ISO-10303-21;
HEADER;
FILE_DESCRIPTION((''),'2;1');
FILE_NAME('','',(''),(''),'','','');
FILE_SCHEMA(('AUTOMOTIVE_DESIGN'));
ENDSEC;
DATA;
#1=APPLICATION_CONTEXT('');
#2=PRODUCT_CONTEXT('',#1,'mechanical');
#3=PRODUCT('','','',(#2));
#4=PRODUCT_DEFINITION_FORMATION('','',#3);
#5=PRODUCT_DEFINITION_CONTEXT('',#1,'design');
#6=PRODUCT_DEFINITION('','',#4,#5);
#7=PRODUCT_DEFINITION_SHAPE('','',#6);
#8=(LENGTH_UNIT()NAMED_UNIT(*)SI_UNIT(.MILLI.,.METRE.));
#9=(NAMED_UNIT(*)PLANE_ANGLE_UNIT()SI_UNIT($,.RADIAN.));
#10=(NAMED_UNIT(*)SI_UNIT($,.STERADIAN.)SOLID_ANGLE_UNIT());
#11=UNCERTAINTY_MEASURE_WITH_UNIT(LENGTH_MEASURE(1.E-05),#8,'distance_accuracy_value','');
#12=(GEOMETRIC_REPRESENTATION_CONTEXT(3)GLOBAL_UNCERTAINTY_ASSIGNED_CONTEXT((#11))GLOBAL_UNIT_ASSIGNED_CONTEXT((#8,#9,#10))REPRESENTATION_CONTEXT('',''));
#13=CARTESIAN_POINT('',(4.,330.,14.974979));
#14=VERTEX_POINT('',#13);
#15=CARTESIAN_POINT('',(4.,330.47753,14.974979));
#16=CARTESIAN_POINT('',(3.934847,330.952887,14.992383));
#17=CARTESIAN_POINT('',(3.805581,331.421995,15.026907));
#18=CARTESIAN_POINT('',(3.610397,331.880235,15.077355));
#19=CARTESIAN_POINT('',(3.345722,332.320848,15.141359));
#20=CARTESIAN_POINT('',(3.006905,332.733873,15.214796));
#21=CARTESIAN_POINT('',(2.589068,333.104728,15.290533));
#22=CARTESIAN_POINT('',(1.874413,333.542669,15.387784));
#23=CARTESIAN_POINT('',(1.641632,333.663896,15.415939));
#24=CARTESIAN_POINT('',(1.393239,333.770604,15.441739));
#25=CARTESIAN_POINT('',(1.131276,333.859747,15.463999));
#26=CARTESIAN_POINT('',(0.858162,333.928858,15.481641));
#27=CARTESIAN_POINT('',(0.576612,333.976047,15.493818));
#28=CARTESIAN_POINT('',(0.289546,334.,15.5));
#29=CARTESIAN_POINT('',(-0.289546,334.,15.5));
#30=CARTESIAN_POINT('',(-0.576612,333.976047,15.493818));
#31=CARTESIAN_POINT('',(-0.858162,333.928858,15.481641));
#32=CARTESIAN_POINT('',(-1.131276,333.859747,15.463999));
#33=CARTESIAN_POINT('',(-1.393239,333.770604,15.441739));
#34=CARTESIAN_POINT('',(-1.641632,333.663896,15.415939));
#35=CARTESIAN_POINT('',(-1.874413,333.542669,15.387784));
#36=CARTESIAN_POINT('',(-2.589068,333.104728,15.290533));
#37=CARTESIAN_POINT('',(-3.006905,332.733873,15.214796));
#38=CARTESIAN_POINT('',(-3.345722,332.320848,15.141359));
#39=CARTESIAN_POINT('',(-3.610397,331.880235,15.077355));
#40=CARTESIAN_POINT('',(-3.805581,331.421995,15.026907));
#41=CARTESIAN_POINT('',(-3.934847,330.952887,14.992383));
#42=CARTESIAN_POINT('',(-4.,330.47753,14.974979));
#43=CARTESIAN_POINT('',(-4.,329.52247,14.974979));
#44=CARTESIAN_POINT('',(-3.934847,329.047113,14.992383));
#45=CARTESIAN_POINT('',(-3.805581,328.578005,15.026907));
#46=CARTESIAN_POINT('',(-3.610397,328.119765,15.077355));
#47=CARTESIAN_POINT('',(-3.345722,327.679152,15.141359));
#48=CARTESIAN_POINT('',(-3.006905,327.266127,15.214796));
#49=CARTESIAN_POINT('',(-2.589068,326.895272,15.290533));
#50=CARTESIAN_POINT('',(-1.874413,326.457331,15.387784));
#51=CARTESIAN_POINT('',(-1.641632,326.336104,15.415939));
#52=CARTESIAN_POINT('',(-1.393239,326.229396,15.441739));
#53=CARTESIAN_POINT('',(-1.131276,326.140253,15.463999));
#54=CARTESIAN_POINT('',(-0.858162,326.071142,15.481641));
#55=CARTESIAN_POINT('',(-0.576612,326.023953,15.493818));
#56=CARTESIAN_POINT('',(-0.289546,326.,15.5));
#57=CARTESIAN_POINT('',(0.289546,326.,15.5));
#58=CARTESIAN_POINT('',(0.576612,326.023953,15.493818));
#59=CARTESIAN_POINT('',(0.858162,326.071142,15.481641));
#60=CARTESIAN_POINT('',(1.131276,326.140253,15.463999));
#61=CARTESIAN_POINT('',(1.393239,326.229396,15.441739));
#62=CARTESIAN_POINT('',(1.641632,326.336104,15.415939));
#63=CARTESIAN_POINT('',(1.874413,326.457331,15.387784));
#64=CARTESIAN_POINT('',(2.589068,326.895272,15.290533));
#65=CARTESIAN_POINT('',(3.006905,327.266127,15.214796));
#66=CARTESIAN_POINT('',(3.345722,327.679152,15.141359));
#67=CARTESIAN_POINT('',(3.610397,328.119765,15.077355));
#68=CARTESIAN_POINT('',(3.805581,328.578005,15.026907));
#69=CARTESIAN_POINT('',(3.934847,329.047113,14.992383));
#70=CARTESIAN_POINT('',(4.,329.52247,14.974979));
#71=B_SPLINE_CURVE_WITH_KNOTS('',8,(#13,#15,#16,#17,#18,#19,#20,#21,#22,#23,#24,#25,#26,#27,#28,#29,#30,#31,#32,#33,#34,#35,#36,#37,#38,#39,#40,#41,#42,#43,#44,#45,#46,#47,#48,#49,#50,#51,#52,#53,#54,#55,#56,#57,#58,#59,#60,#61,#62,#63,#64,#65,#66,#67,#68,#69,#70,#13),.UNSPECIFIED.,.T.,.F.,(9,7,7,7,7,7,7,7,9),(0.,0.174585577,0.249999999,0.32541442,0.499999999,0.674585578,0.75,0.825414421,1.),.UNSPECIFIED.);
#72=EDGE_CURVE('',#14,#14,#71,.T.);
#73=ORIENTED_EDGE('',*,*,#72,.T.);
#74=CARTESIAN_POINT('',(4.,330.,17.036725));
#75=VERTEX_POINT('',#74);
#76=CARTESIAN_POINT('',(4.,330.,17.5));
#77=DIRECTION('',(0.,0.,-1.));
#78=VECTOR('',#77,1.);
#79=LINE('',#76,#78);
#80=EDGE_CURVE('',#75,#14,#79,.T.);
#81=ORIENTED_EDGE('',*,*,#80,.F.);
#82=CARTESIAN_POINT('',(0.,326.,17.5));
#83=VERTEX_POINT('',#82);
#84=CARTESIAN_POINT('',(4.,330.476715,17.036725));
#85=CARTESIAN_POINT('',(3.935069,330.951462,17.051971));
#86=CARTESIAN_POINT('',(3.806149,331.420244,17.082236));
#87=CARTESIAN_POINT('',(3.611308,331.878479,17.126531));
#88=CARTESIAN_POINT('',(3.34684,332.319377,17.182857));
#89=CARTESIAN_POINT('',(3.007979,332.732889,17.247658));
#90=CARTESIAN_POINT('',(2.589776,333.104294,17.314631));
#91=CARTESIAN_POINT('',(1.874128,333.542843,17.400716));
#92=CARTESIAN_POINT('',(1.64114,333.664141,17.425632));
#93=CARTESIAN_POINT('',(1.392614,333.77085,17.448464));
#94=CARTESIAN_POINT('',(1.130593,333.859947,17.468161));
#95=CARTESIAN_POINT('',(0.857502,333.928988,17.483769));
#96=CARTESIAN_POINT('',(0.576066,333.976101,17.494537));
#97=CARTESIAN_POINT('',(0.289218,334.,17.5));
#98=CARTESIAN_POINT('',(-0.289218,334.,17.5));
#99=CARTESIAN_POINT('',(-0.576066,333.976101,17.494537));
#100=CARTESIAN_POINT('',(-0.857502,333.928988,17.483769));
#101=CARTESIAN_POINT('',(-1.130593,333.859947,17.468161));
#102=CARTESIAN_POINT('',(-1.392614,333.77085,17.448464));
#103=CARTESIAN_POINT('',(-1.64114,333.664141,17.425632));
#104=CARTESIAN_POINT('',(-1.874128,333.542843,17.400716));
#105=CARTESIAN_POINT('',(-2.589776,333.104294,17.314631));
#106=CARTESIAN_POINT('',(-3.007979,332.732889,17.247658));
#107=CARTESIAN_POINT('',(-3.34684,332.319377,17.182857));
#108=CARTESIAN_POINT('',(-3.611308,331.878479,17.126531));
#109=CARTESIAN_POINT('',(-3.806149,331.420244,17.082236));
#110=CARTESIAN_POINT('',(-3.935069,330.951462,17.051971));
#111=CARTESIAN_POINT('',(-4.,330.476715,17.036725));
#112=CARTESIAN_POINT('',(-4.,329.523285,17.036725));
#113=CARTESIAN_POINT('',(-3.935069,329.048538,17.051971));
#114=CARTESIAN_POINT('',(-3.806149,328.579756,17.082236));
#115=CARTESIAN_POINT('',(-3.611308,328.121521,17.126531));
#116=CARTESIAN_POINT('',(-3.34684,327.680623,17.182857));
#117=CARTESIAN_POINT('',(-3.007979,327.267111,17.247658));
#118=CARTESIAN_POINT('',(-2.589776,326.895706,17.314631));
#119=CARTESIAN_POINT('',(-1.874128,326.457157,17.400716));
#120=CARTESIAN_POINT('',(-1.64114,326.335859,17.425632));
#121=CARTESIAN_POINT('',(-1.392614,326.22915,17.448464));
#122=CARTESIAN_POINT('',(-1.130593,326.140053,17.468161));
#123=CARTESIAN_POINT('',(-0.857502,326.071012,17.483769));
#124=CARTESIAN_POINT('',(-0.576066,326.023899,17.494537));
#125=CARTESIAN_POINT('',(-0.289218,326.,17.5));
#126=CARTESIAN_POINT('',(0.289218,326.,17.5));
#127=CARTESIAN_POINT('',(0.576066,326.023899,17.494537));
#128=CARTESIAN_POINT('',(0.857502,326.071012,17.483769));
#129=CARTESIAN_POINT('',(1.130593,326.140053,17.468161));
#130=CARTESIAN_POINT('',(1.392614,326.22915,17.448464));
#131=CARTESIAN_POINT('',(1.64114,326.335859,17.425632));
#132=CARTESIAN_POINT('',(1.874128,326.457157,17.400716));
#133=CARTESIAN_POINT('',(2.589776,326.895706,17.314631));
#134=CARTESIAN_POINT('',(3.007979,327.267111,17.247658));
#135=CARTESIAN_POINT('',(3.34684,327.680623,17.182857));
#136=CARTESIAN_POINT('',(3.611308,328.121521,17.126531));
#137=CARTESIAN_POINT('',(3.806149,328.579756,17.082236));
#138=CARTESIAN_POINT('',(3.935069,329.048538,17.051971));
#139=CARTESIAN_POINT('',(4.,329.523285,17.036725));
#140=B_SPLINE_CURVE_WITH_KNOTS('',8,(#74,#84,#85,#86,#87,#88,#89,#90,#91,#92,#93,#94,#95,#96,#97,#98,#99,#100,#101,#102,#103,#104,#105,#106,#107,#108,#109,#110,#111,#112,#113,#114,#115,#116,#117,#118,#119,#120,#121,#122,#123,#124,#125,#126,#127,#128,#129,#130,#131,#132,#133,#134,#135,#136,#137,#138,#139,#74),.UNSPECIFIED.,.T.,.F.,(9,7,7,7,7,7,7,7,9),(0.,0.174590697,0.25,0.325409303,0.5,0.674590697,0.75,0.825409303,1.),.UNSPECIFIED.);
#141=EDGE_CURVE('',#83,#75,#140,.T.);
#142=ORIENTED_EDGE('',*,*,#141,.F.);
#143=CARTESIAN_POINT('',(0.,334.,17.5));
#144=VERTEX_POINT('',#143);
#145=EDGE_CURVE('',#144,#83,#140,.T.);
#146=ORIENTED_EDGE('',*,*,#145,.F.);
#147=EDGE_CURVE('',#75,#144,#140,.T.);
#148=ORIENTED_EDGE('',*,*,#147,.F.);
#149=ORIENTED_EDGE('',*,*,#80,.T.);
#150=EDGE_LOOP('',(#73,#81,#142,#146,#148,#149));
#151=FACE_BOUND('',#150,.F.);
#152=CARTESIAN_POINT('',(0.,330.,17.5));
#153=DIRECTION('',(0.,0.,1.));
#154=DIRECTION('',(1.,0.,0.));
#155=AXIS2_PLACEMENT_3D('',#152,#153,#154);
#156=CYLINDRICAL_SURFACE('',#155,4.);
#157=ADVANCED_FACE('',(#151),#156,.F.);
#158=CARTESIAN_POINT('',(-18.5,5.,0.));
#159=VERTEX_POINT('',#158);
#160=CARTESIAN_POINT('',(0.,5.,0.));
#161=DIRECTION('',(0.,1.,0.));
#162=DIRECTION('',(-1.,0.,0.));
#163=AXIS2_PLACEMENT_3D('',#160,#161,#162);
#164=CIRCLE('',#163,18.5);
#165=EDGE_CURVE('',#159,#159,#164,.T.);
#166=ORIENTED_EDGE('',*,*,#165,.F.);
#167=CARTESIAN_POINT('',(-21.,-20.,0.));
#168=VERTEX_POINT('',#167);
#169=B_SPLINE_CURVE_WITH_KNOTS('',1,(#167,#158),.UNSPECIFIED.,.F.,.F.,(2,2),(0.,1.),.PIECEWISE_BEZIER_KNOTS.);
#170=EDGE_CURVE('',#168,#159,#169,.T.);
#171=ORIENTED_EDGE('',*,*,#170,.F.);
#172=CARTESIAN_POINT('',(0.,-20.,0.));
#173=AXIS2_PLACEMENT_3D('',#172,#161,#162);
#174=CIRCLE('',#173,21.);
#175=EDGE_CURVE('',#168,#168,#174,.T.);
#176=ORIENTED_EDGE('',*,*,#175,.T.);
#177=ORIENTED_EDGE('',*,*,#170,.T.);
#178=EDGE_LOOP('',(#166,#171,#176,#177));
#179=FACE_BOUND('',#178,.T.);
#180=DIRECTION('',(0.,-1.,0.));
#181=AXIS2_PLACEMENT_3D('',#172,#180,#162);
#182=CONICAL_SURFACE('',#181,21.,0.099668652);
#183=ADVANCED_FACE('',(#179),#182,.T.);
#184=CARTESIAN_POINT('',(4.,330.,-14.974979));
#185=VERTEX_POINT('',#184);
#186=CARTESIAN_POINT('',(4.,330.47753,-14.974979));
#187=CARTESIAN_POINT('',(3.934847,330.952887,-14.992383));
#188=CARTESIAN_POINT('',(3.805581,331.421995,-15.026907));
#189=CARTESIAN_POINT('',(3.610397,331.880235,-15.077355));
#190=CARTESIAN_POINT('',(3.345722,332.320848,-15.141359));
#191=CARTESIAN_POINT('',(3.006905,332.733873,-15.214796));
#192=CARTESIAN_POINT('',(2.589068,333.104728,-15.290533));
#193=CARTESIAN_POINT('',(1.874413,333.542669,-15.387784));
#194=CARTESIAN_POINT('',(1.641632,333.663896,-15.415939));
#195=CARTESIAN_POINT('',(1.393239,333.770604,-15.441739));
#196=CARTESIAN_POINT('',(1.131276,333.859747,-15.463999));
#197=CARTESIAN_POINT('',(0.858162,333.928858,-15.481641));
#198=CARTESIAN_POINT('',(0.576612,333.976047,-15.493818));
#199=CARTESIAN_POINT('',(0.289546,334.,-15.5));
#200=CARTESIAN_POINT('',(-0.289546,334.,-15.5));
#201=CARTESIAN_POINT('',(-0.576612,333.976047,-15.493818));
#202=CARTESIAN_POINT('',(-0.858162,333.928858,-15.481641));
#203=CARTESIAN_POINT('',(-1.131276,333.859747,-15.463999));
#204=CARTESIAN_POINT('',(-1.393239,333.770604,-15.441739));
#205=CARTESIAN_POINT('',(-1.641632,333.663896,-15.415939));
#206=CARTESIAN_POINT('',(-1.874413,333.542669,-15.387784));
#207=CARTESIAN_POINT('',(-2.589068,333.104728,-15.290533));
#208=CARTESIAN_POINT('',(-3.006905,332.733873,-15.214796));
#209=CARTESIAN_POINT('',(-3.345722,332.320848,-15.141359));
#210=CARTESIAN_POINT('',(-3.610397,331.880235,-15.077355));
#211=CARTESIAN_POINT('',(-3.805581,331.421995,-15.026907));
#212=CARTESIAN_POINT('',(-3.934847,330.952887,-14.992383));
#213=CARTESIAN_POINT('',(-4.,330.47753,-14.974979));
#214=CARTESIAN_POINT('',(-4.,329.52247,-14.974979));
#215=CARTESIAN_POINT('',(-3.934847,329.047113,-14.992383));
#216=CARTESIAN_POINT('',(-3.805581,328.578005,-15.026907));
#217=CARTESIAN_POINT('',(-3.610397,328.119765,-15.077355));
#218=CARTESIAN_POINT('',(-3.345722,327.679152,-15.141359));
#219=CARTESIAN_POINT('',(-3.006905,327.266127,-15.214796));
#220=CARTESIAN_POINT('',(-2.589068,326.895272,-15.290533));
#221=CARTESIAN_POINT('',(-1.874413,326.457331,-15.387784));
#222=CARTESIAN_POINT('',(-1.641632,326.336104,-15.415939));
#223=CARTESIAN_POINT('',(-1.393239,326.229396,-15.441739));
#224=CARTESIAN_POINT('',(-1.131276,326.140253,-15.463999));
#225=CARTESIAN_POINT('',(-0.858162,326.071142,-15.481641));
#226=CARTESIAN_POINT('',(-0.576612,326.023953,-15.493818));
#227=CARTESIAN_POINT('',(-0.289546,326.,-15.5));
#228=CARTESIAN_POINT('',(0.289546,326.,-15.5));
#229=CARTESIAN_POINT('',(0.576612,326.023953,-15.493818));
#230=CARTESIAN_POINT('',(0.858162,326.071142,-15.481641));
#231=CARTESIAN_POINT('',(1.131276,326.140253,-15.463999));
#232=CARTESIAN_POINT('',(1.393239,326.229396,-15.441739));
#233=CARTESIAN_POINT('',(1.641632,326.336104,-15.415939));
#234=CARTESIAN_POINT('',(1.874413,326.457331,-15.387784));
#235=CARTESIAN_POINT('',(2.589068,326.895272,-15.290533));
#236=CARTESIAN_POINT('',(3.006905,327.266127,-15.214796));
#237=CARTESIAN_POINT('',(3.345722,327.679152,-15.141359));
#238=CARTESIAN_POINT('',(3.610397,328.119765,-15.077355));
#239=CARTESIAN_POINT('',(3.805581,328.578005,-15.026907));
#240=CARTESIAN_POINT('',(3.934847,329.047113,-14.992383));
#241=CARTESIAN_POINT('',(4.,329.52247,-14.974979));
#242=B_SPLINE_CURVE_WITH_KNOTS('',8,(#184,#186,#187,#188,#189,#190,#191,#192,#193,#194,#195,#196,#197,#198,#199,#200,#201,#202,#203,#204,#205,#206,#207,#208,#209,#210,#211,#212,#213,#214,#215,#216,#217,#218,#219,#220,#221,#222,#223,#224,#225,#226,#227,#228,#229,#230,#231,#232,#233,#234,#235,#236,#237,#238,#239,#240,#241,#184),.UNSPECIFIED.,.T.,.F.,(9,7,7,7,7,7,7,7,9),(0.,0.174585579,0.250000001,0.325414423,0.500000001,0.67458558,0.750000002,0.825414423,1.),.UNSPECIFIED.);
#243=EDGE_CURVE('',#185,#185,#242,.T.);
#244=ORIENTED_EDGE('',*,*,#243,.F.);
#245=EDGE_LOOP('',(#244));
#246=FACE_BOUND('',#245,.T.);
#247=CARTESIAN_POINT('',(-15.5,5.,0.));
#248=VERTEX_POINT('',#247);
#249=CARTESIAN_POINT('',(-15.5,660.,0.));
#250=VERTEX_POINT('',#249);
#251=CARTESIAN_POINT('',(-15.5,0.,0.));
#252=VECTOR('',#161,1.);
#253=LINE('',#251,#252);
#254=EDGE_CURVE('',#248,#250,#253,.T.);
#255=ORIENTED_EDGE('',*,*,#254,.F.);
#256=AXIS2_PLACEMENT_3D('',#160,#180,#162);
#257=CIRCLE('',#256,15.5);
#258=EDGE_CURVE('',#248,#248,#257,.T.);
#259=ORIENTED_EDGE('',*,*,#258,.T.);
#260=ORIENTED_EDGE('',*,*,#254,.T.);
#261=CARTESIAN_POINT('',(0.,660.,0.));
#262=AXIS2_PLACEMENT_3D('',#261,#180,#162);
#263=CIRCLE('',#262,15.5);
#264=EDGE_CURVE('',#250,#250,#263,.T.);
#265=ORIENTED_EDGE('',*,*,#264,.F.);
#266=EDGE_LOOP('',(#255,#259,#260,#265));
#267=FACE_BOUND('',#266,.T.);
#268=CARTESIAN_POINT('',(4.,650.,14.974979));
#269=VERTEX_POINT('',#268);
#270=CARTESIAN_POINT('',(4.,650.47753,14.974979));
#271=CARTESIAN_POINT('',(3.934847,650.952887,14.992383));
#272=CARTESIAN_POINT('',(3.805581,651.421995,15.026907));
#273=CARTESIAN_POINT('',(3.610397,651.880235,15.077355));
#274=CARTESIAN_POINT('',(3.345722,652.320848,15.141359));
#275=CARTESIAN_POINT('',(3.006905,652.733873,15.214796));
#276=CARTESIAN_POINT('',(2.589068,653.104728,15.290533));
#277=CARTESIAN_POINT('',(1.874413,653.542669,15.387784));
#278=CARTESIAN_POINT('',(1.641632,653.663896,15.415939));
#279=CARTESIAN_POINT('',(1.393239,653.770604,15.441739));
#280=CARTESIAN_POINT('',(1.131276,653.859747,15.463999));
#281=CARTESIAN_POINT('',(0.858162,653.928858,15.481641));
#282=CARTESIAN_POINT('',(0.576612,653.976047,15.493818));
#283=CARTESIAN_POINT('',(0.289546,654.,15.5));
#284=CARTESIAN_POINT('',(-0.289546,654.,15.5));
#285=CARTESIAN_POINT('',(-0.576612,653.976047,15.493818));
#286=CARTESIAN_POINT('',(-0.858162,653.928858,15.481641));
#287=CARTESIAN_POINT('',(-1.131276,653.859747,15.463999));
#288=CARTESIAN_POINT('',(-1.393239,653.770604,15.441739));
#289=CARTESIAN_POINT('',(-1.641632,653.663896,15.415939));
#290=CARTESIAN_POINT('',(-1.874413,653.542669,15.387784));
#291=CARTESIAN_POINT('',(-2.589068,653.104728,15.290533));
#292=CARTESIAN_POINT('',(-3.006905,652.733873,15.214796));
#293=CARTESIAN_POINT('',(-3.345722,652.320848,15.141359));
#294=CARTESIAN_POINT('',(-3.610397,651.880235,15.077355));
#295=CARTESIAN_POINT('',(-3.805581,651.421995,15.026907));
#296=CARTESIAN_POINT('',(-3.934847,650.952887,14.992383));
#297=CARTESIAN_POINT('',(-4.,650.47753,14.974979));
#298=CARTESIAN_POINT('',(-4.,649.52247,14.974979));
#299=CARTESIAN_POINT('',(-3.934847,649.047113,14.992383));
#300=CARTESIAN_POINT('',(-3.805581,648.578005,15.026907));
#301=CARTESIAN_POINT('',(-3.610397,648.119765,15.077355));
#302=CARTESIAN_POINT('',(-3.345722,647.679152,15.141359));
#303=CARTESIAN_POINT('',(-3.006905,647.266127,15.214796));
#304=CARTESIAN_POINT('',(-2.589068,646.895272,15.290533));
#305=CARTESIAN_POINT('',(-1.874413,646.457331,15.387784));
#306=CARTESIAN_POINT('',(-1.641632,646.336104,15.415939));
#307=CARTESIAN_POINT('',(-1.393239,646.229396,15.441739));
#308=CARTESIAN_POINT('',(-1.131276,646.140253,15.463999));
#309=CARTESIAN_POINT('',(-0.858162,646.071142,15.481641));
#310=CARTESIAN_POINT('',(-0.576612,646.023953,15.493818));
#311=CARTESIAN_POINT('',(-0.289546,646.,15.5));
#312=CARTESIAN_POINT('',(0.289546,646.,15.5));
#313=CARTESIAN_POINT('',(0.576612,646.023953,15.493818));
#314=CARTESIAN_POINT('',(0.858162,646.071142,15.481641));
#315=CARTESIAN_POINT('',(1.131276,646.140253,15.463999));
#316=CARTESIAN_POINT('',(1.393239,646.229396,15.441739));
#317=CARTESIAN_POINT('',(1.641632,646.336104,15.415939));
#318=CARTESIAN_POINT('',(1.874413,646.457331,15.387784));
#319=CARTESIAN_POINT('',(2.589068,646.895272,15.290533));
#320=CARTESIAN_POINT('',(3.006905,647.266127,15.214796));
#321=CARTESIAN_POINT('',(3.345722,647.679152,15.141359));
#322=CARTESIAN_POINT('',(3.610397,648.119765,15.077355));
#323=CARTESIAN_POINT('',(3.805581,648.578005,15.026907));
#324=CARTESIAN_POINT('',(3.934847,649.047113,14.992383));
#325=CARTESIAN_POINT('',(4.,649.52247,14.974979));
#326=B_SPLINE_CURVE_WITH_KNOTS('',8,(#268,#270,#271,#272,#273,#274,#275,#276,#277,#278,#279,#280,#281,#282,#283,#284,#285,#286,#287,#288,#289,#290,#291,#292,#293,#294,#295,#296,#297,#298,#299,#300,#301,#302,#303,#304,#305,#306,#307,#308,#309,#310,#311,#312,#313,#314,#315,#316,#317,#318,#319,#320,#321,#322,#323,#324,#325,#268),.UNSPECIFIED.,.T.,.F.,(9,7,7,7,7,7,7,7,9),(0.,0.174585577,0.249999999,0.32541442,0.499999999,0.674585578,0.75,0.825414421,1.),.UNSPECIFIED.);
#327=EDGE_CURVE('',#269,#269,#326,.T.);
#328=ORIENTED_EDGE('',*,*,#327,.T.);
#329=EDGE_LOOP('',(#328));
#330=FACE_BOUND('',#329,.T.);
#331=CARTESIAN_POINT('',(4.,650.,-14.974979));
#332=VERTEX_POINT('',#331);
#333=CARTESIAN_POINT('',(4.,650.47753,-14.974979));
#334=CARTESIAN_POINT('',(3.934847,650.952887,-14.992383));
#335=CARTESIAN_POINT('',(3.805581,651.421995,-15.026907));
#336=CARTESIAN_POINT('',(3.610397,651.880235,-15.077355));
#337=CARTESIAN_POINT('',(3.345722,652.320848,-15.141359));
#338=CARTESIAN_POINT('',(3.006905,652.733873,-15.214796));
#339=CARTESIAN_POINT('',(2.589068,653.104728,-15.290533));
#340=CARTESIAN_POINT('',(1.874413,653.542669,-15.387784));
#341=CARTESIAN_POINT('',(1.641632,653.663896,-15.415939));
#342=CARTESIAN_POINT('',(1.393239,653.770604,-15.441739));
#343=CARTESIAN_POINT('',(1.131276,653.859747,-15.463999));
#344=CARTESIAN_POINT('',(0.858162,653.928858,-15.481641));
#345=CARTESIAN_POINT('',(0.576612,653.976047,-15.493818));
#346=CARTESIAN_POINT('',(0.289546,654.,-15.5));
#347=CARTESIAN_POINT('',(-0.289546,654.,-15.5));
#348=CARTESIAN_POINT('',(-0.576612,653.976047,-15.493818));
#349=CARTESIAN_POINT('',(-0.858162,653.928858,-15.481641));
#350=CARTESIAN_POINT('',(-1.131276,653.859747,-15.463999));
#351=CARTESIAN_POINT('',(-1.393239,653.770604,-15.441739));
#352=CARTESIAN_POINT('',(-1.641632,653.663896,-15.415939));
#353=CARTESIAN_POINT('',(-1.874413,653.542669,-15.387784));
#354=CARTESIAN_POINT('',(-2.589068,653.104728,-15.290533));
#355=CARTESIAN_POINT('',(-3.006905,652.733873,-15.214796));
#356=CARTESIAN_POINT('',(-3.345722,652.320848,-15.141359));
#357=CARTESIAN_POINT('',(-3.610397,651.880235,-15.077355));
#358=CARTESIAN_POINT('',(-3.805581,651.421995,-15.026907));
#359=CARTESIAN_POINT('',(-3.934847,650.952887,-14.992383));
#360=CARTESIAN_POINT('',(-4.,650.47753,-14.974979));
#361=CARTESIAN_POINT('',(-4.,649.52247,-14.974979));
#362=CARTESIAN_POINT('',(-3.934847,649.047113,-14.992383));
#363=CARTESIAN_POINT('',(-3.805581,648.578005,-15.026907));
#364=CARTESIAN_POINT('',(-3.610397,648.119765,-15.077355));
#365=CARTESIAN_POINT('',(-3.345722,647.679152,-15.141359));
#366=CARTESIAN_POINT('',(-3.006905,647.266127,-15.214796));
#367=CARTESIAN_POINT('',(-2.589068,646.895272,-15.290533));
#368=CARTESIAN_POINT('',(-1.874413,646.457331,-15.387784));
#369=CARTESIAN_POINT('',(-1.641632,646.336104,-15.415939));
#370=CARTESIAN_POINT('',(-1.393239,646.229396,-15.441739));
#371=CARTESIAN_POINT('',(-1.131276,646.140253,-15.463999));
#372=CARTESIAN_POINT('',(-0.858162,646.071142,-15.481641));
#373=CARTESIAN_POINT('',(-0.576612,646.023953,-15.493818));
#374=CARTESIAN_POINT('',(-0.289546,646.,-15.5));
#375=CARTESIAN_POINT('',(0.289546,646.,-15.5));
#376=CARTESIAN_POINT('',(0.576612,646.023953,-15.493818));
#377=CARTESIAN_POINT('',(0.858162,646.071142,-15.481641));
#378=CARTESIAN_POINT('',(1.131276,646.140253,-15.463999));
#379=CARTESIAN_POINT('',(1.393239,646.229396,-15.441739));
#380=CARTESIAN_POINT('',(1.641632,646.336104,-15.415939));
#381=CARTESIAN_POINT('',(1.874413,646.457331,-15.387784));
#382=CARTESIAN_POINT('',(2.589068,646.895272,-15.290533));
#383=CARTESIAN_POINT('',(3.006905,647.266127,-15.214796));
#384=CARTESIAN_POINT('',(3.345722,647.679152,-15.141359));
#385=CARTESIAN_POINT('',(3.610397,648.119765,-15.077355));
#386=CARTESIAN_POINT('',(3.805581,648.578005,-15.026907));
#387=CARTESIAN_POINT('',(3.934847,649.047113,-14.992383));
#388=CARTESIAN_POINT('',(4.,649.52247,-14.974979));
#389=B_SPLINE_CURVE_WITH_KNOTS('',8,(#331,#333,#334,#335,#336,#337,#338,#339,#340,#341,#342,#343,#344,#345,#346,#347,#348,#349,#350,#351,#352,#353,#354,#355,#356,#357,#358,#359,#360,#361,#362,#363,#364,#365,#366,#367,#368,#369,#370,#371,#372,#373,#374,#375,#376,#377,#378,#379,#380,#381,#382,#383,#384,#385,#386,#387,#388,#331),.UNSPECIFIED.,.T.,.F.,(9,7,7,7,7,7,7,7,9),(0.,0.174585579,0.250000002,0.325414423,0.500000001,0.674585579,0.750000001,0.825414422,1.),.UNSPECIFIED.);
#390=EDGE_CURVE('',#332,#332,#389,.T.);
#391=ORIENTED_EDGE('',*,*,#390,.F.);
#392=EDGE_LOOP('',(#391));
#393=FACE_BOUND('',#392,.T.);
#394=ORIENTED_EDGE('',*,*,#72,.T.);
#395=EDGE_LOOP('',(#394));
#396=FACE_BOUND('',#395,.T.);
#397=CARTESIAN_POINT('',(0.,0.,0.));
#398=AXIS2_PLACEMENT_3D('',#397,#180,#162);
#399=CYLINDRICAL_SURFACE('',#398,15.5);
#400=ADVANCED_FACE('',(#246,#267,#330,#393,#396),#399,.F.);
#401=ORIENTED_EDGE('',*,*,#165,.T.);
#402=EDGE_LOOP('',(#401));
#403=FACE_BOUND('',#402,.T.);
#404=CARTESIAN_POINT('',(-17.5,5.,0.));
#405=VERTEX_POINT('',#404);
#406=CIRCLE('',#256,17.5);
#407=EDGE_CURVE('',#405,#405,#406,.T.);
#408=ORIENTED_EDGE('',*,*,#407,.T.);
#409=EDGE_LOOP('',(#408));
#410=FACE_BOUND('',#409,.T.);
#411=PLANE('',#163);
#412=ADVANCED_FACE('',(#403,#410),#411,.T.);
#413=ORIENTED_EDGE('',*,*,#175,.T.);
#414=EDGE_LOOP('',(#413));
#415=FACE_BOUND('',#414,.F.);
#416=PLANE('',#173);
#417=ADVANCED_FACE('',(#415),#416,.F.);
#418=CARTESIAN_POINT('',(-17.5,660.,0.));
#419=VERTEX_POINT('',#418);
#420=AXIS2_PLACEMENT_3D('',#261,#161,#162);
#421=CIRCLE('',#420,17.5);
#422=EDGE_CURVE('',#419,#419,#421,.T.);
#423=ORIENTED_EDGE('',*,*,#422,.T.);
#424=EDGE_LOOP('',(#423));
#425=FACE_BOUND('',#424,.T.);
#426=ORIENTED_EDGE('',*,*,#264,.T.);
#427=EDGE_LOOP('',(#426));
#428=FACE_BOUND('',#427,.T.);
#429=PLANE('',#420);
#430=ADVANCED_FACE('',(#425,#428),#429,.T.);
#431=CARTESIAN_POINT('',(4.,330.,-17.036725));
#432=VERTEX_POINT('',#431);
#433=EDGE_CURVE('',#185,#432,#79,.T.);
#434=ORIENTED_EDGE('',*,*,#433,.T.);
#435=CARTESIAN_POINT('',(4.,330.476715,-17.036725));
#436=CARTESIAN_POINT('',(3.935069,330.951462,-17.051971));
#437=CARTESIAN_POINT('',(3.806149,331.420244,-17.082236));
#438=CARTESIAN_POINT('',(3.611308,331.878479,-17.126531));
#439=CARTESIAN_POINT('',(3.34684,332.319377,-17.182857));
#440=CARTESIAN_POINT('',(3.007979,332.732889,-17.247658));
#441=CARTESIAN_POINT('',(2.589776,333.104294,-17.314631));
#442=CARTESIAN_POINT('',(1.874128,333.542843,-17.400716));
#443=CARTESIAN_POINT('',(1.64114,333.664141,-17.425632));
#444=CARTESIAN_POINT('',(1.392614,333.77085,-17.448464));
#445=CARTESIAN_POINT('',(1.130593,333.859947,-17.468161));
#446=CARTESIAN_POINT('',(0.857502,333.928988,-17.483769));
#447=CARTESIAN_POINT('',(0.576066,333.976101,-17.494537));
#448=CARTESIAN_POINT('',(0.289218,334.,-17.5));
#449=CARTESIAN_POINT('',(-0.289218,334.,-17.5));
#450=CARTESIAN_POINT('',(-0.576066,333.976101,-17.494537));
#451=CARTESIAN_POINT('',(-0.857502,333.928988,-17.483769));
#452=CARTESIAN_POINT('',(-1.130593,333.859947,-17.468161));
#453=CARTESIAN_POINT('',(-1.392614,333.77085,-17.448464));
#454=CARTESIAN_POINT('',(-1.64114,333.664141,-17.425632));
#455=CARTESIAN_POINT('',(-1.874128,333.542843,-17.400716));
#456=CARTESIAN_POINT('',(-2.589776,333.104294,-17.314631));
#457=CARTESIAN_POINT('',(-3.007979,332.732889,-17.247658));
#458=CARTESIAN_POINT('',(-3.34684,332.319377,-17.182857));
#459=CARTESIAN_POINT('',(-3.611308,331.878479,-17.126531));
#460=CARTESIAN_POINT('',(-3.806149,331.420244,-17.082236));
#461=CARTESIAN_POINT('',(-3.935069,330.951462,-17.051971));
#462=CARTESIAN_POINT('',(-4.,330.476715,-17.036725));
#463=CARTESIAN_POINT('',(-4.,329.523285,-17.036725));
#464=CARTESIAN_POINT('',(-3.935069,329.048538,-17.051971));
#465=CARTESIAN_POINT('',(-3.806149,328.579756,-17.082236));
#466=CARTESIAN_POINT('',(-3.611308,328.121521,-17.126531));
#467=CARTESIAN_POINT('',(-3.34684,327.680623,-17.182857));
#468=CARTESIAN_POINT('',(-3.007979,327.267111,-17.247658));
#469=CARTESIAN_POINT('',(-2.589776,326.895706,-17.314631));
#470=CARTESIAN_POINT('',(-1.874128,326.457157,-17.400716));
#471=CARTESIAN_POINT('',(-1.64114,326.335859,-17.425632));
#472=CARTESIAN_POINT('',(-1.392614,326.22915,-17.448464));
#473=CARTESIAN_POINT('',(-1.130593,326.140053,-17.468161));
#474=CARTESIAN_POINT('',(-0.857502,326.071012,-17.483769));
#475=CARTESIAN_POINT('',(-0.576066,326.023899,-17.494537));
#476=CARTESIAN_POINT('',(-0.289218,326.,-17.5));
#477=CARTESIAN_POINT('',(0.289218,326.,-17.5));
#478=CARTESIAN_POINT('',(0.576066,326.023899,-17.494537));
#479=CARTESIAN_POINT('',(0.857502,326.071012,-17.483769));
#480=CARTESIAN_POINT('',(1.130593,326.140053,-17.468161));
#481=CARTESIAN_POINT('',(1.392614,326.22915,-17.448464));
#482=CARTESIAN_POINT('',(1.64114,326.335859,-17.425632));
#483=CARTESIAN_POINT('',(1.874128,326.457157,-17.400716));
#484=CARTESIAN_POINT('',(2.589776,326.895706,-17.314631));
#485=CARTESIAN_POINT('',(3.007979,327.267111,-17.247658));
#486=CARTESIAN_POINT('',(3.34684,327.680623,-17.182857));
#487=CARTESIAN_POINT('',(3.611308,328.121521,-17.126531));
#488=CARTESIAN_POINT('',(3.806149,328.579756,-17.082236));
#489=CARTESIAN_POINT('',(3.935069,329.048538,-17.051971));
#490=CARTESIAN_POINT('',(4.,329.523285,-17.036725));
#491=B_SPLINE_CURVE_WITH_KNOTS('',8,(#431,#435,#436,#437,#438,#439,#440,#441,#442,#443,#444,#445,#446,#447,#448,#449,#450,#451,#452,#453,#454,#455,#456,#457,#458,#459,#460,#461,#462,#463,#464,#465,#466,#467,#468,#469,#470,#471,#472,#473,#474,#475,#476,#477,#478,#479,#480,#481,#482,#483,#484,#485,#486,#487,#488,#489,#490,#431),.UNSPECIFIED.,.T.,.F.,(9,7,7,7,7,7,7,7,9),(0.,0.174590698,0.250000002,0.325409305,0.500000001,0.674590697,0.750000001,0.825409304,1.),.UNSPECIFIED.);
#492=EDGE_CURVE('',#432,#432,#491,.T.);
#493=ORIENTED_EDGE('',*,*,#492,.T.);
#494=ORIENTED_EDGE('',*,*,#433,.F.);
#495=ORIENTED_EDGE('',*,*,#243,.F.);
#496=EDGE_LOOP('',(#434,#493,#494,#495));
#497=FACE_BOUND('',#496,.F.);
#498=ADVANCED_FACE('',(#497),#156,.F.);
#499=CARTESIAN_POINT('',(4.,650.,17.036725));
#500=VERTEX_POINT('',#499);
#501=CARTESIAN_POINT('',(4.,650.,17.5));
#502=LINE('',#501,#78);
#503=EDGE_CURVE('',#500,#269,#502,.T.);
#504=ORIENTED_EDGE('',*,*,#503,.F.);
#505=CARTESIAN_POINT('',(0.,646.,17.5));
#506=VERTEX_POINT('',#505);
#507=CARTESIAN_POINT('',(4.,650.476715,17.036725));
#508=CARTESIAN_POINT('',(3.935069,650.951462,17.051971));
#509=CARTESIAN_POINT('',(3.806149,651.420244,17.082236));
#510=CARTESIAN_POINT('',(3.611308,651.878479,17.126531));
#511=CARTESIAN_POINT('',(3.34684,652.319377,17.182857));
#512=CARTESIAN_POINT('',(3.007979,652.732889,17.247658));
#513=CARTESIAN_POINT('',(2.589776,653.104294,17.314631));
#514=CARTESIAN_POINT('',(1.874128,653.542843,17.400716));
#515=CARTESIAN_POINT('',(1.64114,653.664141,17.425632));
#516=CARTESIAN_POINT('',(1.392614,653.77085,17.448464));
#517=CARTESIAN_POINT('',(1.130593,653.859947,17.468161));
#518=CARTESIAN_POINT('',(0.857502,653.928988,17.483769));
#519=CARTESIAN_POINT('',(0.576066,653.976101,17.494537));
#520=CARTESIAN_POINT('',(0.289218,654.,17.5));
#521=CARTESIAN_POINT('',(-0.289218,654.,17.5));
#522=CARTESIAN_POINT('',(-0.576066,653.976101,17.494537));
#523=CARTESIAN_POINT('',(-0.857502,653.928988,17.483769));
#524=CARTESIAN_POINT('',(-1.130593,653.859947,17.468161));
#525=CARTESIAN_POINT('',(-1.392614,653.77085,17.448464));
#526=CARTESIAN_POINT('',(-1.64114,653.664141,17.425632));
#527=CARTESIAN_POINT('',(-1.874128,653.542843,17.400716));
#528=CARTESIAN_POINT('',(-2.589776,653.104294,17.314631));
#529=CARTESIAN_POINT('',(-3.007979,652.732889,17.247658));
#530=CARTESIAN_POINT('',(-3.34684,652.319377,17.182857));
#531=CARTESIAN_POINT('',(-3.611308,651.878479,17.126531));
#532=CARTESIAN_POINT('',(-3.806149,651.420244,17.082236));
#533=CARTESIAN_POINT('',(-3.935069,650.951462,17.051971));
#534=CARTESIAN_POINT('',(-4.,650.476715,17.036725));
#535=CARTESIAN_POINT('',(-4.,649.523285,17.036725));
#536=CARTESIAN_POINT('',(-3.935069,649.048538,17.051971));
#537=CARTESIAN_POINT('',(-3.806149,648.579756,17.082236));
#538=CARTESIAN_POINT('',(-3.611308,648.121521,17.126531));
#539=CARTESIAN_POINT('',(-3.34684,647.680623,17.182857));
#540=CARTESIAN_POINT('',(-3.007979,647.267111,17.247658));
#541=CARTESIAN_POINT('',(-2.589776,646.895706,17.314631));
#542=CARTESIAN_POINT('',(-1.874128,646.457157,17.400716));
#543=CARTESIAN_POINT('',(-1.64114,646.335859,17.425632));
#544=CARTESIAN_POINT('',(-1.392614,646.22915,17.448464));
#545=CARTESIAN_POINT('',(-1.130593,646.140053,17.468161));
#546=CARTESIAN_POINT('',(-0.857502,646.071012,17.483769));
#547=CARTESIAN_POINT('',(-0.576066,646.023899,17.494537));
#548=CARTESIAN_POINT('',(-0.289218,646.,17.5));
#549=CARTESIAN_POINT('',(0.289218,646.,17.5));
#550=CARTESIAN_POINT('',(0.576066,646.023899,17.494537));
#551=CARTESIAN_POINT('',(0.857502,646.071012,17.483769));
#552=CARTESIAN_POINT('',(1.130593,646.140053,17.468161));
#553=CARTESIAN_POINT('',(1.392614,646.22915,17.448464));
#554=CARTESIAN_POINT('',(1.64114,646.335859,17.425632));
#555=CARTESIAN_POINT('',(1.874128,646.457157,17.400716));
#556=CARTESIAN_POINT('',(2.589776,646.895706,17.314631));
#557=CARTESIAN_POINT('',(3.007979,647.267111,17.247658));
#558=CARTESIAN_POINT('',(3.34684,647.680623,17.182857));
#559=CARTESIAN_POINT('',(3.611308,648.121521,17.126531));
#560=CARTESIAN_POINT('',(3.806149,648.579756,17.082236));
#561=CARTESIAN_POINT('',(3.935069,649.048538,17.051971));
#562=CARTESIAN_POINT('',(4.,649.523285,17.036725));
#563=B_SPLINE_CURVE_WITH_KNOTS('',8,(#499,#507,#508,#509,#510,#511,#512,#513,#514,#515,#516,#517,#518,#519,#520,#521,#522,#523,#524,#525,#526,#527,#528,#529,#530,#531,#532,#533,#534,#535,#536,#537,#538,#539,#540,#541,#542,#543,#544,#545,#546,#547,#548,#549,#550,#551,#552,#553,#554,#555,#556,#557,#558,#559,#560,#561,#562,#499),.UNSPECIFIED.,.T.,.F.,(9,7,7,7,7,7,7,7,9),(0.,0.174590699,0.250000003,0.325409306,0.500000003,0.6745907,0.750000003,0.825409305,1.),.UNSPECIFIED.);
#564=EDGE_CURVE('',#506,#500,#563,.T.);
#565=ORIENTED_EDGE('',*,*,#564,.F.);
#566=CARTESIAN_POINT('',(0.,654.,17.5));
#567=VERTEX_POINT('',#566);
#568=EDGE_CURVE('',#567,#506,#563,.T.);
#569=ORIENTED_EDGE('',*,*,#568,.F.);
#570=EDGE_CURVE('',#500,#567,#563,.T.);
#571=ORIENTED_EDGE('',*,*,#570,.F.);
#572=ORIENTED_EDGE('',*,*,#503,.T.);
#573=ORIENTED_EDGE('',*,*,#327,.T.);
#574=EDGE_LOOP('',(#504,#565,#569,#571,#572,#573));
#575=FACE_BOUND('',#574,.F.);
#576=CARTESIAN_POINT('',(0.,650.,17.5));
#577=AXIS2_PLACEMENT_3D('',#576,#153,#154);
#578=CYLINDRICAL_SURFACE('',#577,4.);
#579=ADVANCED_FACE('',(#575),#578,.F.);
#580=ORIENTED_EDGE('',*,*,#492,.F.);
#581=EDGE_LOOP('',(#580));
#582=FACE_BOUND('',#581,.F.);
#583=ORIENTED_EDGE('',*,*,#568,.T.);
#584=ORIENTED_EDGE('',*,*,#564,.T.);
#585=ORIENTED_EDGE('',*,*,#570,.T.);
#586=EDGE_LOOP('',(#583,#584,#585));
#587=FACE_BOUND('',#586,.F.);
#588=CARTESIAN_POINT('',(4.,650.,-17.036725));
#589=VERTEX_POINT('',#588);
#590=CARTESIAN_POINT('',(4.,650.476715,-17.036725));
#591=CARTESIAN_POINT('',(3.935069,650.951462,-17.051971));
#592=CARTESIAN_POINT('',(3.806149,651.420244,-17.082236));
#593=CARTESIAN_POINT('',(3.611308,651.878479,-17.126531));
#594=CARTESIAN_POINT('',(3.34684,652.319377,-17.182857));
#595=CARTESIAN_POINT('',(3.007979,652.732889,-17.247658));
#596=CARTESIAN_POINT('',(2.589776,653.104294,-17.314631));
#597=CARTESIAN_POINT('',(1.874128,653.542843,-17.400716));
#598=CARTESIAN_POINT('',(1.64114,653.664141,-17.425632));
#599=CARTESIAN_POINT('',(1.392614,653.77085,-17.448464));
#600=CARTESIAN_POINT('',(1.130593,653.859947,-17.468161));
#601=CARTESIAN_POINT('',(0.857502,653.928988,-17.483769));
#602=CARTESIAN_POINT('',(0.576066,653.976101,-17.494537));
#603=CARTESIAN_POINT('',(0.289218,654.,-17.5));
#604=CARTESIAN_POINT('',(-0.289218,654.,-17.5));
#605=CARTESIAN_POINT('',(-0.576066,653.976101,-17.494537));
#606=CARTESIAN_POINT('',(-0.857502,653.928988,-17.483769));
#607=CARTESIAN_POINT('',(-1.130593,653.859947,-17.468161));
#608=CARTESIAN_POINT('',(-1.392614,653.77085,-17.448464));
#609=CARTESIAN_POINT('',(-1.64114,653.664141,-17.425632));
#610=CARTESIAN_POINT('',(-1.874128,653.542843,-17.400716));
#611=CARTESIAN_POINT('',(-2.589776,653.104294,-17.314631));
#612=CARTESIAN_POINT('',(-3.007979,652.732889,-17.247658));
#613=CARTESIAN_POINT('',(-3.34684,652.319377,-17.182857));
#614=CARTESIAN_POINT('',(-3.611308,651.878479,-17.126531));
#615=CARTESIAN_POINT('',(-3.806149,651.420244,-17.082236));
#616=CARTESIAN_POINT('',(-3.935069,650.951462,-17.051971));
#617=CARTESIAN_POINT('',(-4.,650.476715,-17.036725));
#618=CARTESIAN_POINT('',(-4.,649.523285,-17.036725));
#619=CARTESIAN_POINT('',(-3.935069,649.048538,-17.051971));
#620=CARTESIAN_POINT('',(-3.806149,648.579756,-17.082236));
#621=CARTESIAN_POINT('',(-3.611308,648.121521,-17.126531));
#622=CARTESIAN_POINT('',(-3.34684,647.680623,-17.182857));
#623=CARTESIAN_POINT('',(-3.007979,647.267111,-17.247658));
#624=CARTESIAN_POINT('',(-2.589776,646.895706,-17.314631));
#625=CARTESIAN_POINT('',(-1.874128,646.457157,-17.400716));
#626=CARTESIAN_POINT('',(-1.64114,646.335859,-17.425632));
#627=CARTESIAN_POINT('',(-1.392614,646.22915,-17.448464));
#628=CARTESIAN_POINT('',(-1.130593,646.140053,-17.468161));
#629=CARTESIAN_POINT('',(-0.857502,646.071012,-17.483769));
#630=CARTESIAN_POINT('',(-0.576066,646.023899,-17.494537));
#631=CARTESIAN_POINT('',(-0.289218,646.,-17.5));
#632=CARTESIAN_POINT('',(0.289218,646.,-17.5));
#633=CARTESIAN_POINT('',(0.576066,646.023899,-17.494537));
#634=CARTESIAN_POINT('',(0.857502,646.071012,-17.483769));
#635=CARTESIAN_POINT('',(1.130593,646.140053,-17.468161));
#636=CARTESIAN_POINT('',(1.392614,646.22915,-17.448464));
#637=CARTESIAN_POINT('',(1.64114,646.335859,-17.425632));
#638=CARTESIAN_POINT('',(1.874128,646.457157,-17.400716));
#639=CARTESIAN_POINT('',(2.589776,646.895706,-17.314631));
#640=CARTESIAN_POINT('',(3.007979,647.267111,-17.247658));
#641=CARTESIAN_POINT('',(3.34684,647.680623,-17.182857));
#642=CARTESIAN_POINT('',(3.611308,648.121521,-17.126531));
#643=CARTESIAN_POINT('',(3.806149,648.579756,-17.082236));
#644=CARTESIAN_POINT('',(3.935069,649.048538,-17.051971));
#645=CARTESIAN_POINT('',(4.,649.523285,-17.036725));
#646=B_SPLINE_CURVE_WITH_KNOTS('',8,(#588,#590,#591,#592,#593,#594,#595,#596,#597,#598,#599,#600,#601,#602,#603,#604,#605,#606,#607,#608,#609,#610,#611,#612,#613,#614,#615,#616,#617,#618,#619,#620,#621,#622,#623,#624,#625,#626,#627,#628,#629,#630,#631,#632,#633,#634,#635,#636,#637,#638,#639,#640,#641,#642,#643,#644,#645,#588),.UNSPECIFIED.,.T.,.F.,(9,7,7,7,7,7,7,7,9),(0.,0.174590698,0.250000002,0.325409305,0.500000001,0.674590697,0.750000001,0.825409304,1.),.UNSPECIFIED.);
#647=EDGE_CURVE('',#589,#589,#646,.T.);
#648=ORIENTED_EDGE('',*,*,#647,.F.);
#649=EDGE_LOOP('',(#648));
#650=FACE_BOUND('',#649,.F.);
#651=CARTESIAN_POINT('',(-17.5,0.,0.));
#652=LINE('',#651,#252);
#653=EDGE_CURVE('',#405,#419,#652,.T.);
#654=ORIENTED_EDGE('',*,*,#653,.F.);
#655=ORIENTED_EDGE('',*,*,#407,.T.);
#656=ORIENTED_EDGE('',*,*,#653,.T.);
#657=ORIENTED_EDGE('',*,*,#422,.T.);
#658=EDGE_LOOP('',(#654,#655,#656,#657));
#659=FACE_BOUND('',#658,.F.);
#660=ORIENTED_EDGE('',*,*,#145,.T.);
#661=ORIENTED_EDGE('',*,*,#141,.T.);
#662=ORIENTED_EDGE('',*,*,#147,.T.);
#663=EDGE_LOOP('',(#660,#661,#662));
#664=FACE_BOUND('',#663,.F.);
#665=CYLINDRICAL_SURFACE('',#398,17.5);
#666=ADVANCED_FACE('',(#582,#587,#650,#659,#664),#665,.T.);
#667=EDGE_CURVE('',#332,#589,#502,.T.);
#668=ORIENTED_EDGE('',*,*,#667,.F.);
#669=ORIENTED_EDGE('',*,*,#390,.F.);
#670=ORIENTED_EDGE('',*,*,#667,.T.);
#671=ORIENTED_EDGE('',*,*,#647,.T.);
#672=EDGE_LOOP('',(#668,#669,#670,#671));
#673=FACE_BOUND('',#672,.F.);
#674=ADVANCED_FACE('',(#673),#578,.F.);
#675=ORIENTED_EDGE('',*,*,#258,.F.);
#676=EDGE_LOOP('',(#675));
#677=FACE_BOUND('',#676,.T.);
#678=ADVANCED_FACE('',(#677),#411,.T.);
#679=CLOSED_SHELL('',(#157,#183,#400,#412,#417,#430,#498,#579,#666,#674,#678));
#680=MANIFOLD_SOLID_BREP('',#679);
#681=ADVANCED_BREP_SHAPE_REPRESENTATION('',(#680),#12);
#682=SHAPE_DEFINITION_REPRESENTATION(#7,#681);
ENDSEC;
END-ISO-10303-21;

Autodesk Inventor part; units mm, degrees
ref_plane "YZ Plane" through (0, 0, 0) normal (1, 0, 0) x (0, 1, 0)
sketch "Boceto1" plane through (0, 0, 0) normal (0, 1, 0) x (-1, 0, 0)
  circle A0 centre (0, 0) radius 17.5
  dimension "d0" = 35
extrude "Extrusión1" add sketch "Boceto1" along normal blind 660
shell "Vaciado1" thickness 2 removed faces 2 at (-4.865, 0, -5.1831) at (-4.865, 660, -5.1831)
ref_plane "Plano de trabajo1" through (0, 0, 17.5) normal (0, 0, 1) x (1, 0, 0)
sketch "Boceto2" plane through (0, 0, 17.5) normal (0, 0, 1) x (1, 0, 0)
  line L0 (0, 714.392) -> (0, -104.9263) construction
  line L1 (-367.8002, 0) -> (437.007, 0) construction
  circle A0 centre (0, 650) radius 4
  line L2 (17.5, 660) -> (-17.5, 660) projected
  circle A1 centre (0, 330) radius 4
  point P0 (0, 0)
  dimension "d5" = 8
  dimension "d6" = 10
  dimension "d7" = 8
  dimension "d8" = 330
extrude "Extrusión2" cut sketch "Boceto2" against normal blind 50
ref_plane "Plano de trabajo2" through (0, 5, 0) normal (0, 1, 0) x (-1, 0, 0)
sketch "Boceto3" plane through (0, 5, 0) normal (0, 1, 0) x (-1, 0, 0)
  circle A0 centre (0, 0) radius 18.5
  dimension "d12" = 37
ref_plane "Plano de trabajo3" through (0, -20, 0) normal (0, 1, 0) x (-1, 0, 0)
sketch "Boceto4" plane through (0, -20, 0) normal (0, 1, 0) x (-1, 0, 0)
  circle A0 centre (0, 0) radius 21
  dimension "d14" = 42
loft "Solevación1" add profiles "Boceto4", "Boceto3"
